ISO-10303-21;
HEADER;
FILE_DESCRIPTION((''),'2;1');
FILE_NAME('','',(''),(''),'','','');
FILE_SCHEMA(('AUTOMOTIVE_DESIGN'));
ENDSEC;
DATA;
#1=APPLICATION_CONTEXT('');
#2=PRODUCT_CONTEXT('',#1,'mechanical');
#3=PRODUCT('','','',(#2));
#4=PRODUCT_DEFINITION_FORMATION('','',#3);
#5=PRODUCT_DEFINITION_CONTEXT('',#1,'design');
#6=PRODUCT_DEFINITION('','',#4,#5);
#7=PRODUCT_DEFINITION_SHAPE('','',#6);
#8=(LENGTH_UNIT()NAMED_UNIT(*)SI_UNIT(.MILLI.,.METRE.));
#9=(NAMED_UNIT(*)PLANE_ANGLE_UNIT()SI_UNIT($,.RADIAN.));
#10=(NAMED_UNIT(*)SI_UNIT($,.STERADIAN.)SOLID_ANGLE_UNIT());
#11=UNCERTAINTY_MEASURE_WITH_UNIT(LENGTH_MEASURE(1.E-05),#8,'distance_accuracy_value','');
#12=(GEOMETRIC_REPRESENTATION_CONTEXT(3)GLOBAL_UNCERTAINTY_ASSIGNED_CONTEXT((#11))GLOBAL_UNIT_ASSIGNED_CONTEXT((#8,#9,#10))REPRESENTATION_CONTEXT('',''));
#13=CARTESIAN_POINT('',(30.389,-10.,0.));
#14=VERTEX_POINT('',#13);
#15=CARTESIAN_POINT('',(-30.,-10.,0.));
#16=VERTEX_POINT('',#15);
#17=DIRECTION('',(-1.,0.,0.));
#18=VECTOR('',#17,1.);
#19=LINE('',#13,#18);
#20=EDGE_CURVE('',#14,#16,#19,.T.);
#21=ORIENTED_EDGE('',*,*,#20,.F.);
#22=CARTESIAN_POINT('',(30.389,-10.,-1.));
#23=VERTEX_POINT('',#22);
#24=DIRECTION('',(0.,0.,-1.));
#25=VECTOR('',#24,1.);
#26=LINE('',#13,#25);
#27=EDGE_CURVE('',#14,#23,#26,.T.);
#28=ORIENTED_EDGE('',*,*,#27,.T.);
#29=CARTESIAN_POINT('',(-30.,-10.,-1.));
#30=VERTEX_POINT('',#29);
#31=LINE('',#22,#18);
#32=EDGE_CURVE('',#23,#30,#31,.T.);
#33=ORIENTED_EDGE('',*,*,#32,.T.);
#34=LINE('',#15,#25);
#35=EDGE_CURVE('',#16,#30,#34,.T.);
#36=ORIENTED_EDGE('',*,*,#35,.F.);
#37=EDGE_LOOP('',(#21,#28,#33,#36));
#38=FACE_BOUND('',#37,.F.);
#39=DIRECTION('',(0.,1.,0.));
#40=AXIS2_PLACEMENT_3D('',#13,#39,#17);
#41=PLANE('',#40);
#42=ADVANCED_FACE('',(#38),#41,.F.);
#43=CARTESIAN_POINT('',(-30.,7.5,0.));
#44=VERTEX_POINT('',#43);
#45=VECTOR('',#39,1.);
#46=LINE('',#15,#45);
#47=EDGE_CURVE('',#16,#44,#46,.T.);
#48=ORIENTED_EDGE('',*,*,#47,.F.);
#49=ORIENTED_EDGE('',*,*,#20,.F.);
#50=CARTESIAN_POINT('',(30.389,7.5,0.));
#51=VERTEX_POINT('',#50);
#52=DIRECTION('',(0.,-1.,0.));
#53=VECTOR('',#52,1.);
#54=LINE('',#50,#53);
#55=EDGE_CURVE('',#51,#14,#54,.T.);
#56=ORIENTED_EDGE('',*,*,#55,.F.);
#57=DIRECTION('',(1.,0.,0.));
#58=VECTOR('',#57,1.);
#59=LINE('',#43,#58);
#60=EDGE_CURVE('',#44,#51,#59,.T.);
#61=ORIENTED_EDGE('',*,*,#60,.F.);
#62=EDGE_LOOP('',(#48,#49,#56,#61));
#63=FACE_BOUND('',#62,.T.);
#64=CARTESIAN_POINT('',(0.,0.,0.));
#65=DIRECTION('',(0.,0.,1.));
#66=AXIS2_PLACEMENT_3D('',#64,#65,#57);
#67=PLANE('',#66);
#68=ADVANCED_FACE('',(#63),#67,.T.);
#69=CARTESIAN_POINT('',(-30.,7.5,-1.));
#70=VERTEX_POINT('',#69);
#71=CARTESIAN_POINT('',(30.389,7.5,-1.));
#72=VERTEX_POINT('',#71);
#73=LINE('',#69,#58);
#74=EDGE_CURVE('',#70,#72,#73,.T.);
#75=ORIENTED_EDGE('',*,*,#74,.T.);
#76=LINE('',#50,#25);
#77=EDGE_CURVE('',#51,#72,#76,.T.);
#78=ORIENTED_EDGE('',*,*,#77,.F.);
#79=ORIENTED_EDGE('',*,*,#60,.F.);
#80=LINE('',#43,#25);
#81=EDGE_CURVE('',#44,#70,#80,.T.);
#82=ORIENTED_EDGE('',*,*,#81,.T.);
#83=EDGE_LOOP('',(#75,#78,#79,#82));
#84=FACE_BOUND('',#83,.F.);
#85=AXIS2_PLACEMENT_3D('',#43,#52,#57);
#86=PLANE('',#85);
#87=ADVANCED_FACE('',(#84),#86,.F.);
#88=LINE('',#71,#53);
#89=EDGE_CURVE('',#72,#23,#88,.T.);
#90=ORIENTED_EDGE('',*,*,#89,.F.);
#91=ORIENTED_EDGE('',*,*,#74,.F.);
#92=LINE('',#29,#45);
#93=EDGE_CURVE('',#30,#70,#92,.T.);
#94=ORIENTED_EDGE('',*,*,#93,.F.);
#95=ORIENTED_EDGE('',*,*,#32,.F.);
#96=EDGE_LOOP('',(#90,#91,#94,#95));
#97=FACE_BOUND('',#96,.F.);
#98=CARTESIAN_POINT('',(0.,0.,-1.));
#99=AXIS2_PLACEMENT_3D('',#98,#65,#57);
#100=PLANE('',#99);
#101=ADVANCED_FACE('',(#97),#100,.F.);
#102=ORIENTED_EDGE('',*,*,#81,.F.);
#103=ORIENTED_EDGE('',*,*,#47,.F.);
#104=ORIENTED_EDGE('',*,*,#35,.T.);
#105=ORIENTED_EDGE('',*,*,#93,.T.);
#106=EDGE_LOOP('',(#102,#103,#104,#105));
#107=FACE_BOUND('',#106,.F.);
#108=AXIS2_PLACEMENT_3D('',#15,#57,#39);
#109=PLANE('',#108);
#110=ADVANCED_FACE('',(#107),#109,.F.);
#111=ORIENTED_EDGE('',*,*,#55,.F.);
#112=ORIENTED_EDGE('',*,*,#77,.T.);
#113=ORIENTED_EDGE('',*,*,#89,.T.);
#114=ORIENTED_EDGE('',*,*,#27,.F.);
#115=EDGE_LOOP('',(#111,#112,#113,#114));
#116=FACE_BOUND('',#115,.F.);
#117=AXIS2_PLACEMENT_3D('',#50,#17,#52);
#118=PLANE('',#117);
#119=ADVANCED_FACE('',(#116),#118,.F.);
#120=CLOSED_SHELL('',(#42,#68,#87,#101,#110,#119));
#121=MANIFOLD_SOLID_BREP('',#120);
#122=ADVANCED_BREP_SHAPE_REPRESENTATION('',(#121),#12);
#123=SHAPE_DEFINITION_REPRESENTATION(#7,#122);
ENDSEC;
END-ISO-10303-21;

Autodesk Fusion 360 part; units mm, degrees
sketch "board" plane through (0, 0, 0) normal (0, 0, 1) x (1, 0, 0)
  circle A0 centre (-29.2, -21.5) radius 0.5
  line L0 (-35, 25) -> (35, 25)
  line L1 (35, 25) -> (35, -25)
  line L2 (35, -25) -> (-35, -25)
  line L3 (-35, -25) -> (-35, 25)
  circle A1 centre (-26.66, -21.5) radius 0.5
  circle A2 centre (-24.12, -21.5) radius 0.5
  circle A3 centre (-21.58, -21.5) radius 0.5
  circle A4 centre (-19.04, -21.5) radius 0.5
  circle A5 centre (-16.5, -21.5) radius 0.5
  circle A6 centre (-13.96, -21.5) radius 0.5
  circle A7 centre (-11.42, -21.5) radius 0.5
  circle A8 centre (-8.88, -21.5) radius 0.5
  circle A9 centre (-6.34, -21.5) radius 0.5
  circle A10 centre (-3.8, -21.5) radius 0.5
  circle A11 centre (-1.26, -21.5) radius 0.5
  circle A12 centre (1.28, -21.5) radius 0.5
  circle A13 centre (3.82, -21.5) radius 0.5
  circle A14 centre (6.36, -21.5) radius 0.5
  circle A15 centre (8.9, -21.5) radius 0.5
  circle A16 centre (11.44, -21.5) radius 0.5
  circle A17 centre (13.98, -21.5) radius 0.5
  circle A18 centre (16.52, -21.5) radius 0.5
  circle A19 centre (19.06, -21.5) radius 0.5
  circle A20 centre (21.6, -21.5) radius 0.5
  circle A21 centre (24.14, -21.5) radius 0.5
  circle A22 centre (26.68, -21.5) radius 0.5
  circle A23 centre (29.22, -21.5) radius 0.5
  circle A24 centre (-29.2, -18.96) radius 0.5
  circle A25 centre (-26.66, -18.96) radius 0.5
  circle A26 centre (-24.12, -18.96) radius 0.5
  circle A27 centre (-21.58, -18.96) radius 0.5
  circle A28 centre (-19.04, -18.96) radius 0.5
  circle A29 centre (-16.5, -18.96) radius 0.5
  circle A30 centre (-13.96, -18.96) radius 0.5
  circle A31 centre (-11.42, -18.96) radius 0.5
  circle A32 centre (-8.88, -18.96) radius 0.5
  circle A33 centre (-6.34, -18.96) radius 0.5
  circle A34 centre (-3.8, -18.96) radius 0.5
  circle A35 centre (-1.26, -18.96) radius 0.5
  circle A36 centre (1.28, -18.96) radius 0.5
  circle A37 centre (3.82, -18.96) radius 0.5
  circle A38 centre (6.36, -18.96) radius 0.5
  circle A39 centre (8.9, -18.96) radius 0.5
  circle A40 centre (11.44, -18.96) radius 0.5
  circle A41 centre (13.98, -18.96) radius 0.5
  circle A42 centre (16.52, -18.96) radius 0.5
  circle A43 centre (19.06, -18.96) radius 0.5
  circle A44 centre (21.6, -18.96) radius 0.5
  circle A45 centre (24.14, -18.96) radius 0.5
  circle A46 centre (26.68, -18.96) radius 0.5
  circle A47 centre (29.22, -18.96) radius 0.5
  circle A48 centre (-29.2, -16.42) radius 0.5
  circle A49 centre (-26.66, -16.42) radius 0.5
  circle A50 centre (-24.12, -16.42) radius 0.5
  circle A51 centre (-21.58, -16.42) radius 0.5
  circle A52 centre (-19.04, -16.42) radius 0.5
  circle A53 centre (-16.5, -16.42) radius 0.5
  circle A54 centre (-13.96, -16.42) radius 0.5
  circle A55 centre (-11.42, -16.42) radius 0.5
  circle A56 centre (-8.88, -16.42) radius 0.5
  circle A57 centre (-6.34, -16.42) radius 0.5
  circle A58 centre (-3.8, -16.42) radius 0.5
  circle A59 centre (-1.26, -16.42) radius 0.5
  circle A60 centre (1.28, -16.42) radius 0.5
  circle A61 centre (3.82, -16.42) radius 0.5
  circle A62 centre (6.36, -16.42) radius 0.5
  circle A63 centre (8.9, -16.42) radius 0.5
  circle A64 centre (11.44, -16.42) radius 0.5
  circle A65 centre (13.98, -16.42) radius 0.5
  circle A66 centre (16.52, -16.42) radius 0.5
  circle A67 centre (19.06, -16.42) radius 0.5
  circle A68 centre (21.6, -16.42) radius 0.5
  circle A69 centre (24.14, -16.42) radius 0.5
  circle A70 centre (26.68, -16.42) radius 0.5
  circle A71 centre (29.22, -16.42) radius 0.5
  circle A72 centre (-29.2, -13.88) radius 0.5
  circle A73 centre (-26.66, -13.88) radius 0.5
  circle A74 centre (-24.12, -13.88) radius 0.5
  circle A75 centre (-21.58, -13.88) radius 0.5
  circle A76 centre (-19.04, -13.88) radius 0.5
  circle A77 centre (-16.5, -13.88) radius 0.5
  circle A78 centre (-13.96, -13.88) radius 0.5
  circle A79 centre (-11.42, -13.88) radius 0.5
  circle A80 centre (-8.88, -13.88) radius 0.5
  circle A81 centre (-6.34, -13.88) radius 0.5
  circle A82 centre (-3.8, -13.88) radius 0.5
  circle A83 centre (-1.26, -13.88) radius 0.5
  circle A84 centre (1.28, -13.88) radius 0.5
  circle A85 centre (3.82, -13.88) radius 0.5
  circle A86 centre (6.36, -13.88) radius 0.5
  circle A87 centre (8.9, -13.88) radius 0.5
  circle A88 centre (11.44, -13.88) radius 0.5
  circle A89 centre (13.98, -13.88) radius 0.5
  circle A90 centre (16.52, -13.88) radius 0.5
  circle A91 centre (19.06, -13.88) radius 0.5
  circle A92 centre (21.6, -13.88) radius 0.5
  circle A93 centre (24.14, -13.88) radius 0.5
  circle A94 centre (26.68, -13.88) radius 0.5
  circle A95 centre (29.22, -13.88) radius 0.5
  circle A96 centre (-29.2, -11.34) radius 0.5
  circle A97 centre (-26.66, -11.34) radius 0.5
  circle A98 centre (-24.12, -11.34) radius 0.5
  circle A99 centre (-21.58, -11.34) radius 0.5
  circle A100 centre (-19.04, -11.34) radius 0.5
  circle A101 centre (-16.5, -11.34) radius 0.5
  circle A102 centre (-13.96, -11.34) radius 0.5
  circle A103 centre (-11.42, -11.34) radius 0.5
  circle A104 centre (-8.88, -11.34) radius 0.5
  circle A105 centre (-6.34, -11.34) radius 0.5
  circle A106 centre (-3.8, -11.34) radius 0.5
  circle A107 centre (-1.26, -11.34) radius 0.5
  circle A108 centre (1.28, -11.34) radius 0.5
  circle A109 centre (3.82, -11.34) radius 0.5
  circle A110 centre (6.36, -11.34) radius 0.5
  circle A111 centre (8.9, -11.34) radius 0.5
  circle A112 centre (11.44, -11.34) radius 0.5
  circle A113 centre (13.98, -11.34) radius 0.5
  circle A114 centre (16.52, -11.34) radius 0.5
  circle A115 centre (19.06, -11.34) radius 0.5
  circle A116 centre (21.6, -11.34) radius 0.5
  circle A117 centre (24.14, -11.34) radius 0.5
  circle A118 centre (26.68, -11.34) radius 0.5
  circle A119 centre (29.22, -11.34) radius 0.5
  circle A120 centre (-29.2, -8.8) radius 0.5
  circle A121 centre (-26.66, -8.8) radius 0.5
  circle A122 centre (-24.12, -8.8) radius 0.5
  circle A123 centre (-21.58, -8.8) radius 0.5
  circle A124 centre (-19.04, -8.8) radius 0.5
  circle A125 centre (-16.5, -8.8) radius 0.5
  circle A126 centre (-13.96, -8.8) radius 0.5
  circle A127 centre (-11.42, -8.8) radius 0.5
  circle A128 centre (-8.88, -8.8) radius 0.5
  circle A129 centre (-6.34, -8.8) radius 0.5
  circle A130 centre (-3.8, -8.8) radius 0.5
  circle A131 centre (-1.26, -8.8) radius 0.5
  circle A132 centre (1.28, -8.8) radius 0.5
  circle A133 centre (3.82, -8.8) radius 0.5
  circle A134 centre (6.36, -8.8) radius 0.5
  circle A135 centre (8.9, -8.8) radius 0.5
  circle A136 centre (11.44, -8.8) radius 0.5
  circle A137 centre (13.98, -8.8) radius 0.5
  circle A138 centre (16.52, -8.8) radius 0.5
  circle A139 centre (19.06, -8.8) radius 0.5
  circle A140 centre (21.6, -8.8) radius 0.5
  circle A141 centre (24.14, -8.8) radius 0.5
  circle A142 centre (26.68, -8.8) radius 0.5
  circle A143 centre (29.22, -8.8) radius 0.5
  circle A144 centre (-29.2, -6.26) radius 0.5
  circle A145 centre (-26.66, -6.26) radius 0.5
  circle A146 centre (-24.12, -6.26) radius 0.5
  circle A147 centre (-21.58, -6.26) radius 0.5
  circle A148 centre (-19.04, -6.26) radius 0.5
  circle A149 centre (-16.5, -6.26) radius 0.5
  circle A150 centre (-13.96, -6.26) radius 0.5
  circle A151 centre (-11.42, -6.26) radius 0.5
  circle A152 centre (-8.88, -6.26) radius 0.5
  circle A153 centre (-6.34, -6.26) radius 0.5
  circle A154 centre (-3.8, -6.26) radius 0.5
  circle A155 centre (-1.26, -6.26) radius 0.5
  circle A156 centre (1.28, -6.26) radius 0.5
  circle A157 centre (3.82, -6.26) radius 0.5
  circle A158 centre (6.36, -6.26) radius 0.5
  circle A159 centre (8.9, -6.26) radius 0.5
  circle A160 centre (11.44, -6.26) radius 0.5
  circle A161 centre (13.98, -6.26) radius 0.5
  circle A162 centre (16.52, -6.26) radius 0.5
  circle A163 centre (19.06, -6.26) radius 0.5
  circle A164 centre (21.6, -6.26) radius 0.5
  circle A165 centre (24.14, -6.26) radius 0.5
  circle A166 centre (26.68, -6.26) radius 0.5
  circle A167 centre (29.22, -6.26) radius 0.5
  circle A168 centre (-29.2, -3.72) radius 0.5
  circle A169 centre (-26.66, -3.72) radius 0.5
  circle A170 centre (-24.12, -3.72) radius 0.5
  circle A171 centre (-21.58, -3.72) radius 0.5
  circle A172 centre (-19.04, -3.72) radius 0.5
  circle A173 centre (-16.5, -3.72) radius 0.5
  circle A174 centre (-13.96, -3.72) radius 0.5
  circle A175 centre (-11.42, -3.72) radius 0.5
  circle A176 centre (-8.88, -3.72) radius 0.5
  circle A177 centre (-6.34, -3.72) radius 0.5
  circle A178 centre (-3.8, -3.72) radius 0.5
  circle A179 centre (-1.26, -3.72) radius 0.5
  circle A180 centre (1.28, -3.72) radius 0.5
  circle A181 centre (3.82, -3.72) radius 0.5
  circle A182 centre (6.36, -3.72) radius 0.5
  circle A183 centre (8.9, -3.72) radius 0.5
  circle A184 centre (11.44, -3.72) radius 0.5
  circle A185 centre (13.98, -3.72) radius 0.5
  circle A186 centre (16.52, -3.72) radius 0.5
  circle A187 centre (19.06, -3.72) radius 0.5
  circle A188 centre (21.6, -3.72) radius 0.5
  circle A189 centre (24.14, -3.72) radius 0.5
  circle A190 centre (26.68, -3.72) radius 0.5
  circle A191 centre (29.22, -3.72) radius 0.5
  circle A192 centre (-29.2, -1.18) radius 0.5
  circle A193 centre (-26.66, -1.18) radius 0.5
  circle A194 centre (-24.12, -1.18) radius 0.5
  circle A195 centre (-21.58, -1.18) radius 0.5
  circle A196 centre (-19.04, -1.18) radius 0.5
  circle A197 centre (-16.5, -1.18) radius 0.5
  circle A198 centre (-13.96, -1.18) radius 0.5
  circle A199 centre (-11.42, -1.18) radius 0.5
  circle A200 centre (-8.88, -1.18) radius 0.5
  circle A201 centre (-6.34, -1.18) radius 0.5
  circle A202 centre (-3.8, -1.18) radius 0.5
  circle A203 centre (-1.26, -1.18) radius 0.5
  circle A204 centre (1.28, -1.18) radius 0.5
  circle A205 centre (3.82, -1.18) radius 0.5
  circle A206 centre (6.36, -1.18) radius 0.5
  circle A207 centre (8.9, -1.18) radius 0.5
  circle A208 centre (11.44, -1.18) radius 0.5
  circle A209 centre (13.98, -1.18) radius 0.5
  circle A210 centre (16.52, -1.18) radius 0.5
  circle A211 centre (19.06, -1.18) radius 0.5
  circle A212 centre (21.6, -1.18) radius 0.5
  circle A213 centre (24.14, -1.18) radius 0.5
  circle A214 centre (26.68, -1.18) radius 0.5
  circle A215 centre (29.22, -1.18) radius 0.5
  circle A216 centre (-29.2, 1.36) radius 0.5
  circle A217 centre (-26.66, 1.36) radius 0.5
  circle A218 centre (-24.12, 1.36) radius 0.5
  circle A219 centre (-21.58, 1.36) radius 0.5
  circle A220 centre (-19.04, 1.36) radius 0.5
  circle A221 centre (-16.5, 1.36) radius 0.5
  circle A222 centre (-13.96, 1.36) radius 0.5
  circle A223 centre (-11.42, 1.36) radius 0.5
  circle A224 centre (-8.88, 1.36) radius 0.5
  circle A225 centre (-6.34, 1.36) radius 0.5
  circle A226 centre (-3.8, 1.36) radius 0.5
  circle A227 centre (-1.26, 1.36) radius 0.5
  circle A228 centre (1.28, 1.36) radius 0.5
  circle A229 centre (3.82, 1.36) radius 0.5
  circle A230 centre (6.36, 1.36) radius 0.5
  circle A231 centre (8.9, 1.36) radius 0.5
  circle A232 centre (11.44, 1.36) radius 0.5
  circle A233 centre (13.98, 1.36) radius 0.5
  circle A234 centre (16.52, 1.36) radius 0.5
  circle A235 centre (19.06, 1.36) radius 0.5
  circle A236 centre (21.6, 1.36) radius 0.5
  circle A237 centre (24.14, 1.36) radius 0.5
  circle A238 centre (26.68, 1.36) radius 0.5
  circle A239 centre (29.22, 1.36) radius 0.5
  circle A240 centre (-29.2, 3.9) radius 0.5
  circle A241 centre (-26.66, 3.9) radius 0.5
  circle A242 centre (-24.12, 3.9) radius 0.5
  circle A243 centre (-21.58, 3.9) radius 0.5
  circle A244 centre (-19.04, 3.9) radius 0.5
  circle A245 centre (-16.5, 3.9) radius 0.5
  circle A246 centre (-13.96, 3.9) radius 0.5
  circle A247 centre (-11.42, 3.9) radius 0.5
  circle A248 centre (-8.88, 3.9) radius 0.5
  circle A249 centre (-6.34, 3.9) radius 0.5
  circle A250 centre (-3.8, 3.9) radius 0.5
  circle A251 centre (-1.26, 3.9) radius 0.5
  circle A252 centre (1.28, 3.9) radius 0.5
  circle A253 centre (3.82, 3.9) radius 0.5
  circle A254 centre (6.36, 3.9) radius 0.5
  circle A255 centre (8.9, 3.9) radius 0.5
  circle A256 centre (11.44, 3.9) radius 0.5
  circle A257 centre (13.98, 3.9) radius 0.5
  circle A258 centre (16.52, 3.9) radius 0.5
  circle A259 centre (19.06, 3.9) radius 0.5
  circle A260 centre (21.6, 3.9) radius 0.5
  circle A261 centre (24.14, 3.9) radius 0.5
  circle A262 centre (26.68, 3.9) radius 0.5
  circle A263 centre (29.22, 3.9) radius 0.5
  circle A264 centre (-29.2, 6.44) radius 0.5
  circle A265 centre (-26.66, 6.44) radius 0.5
  circle A266 centre (-24.12, 6.44) radius 0.5
  circle A267 centre (-21.58, 6.44) radius 0.5
  circle A268 centre (-19.04, 6.44) radius 0.5
  circle A269 centre (-16.5, 6.44) radius 0.5
  circle A270 centre (-13.96, 6.44) radius 0.5
  circle A271 centre (-11.42, 6.44) radius 0.5
  circle A272 centre (-8.88, 6.44) radius 0.5
  circle A273 centre (-6.34, 6.44) radius 0.5
  circle A274 centre (-3.8, 6.44) radius 0.5
  circle A275 centre (-1.26, 6.44) radius 0.5
  circle A276 centre (1.28, 6.44) radius 0.5
  circle A277 centre (3.82, 6.44) radius 0.5
  circle A278 centre (6.36, 6.44) radius 0.5
  circle A279 centre (8.9, 6.44) radius 0.5
  circle A280 centre (11.44, 6.44) radius 0.5
  circle A281 centre (13.98, 6.44) radius 0.5
  circle A282 centre (16.52, 6.44) radius 0.5
  circle A283 centre (19.06, 6.44) radius 0.5
  circle A284 centre (21.6, 6.44) radius 0.5
  circle A285 centre (24.14, 6.44) radius 0.5
  circle A286 centre (26.68, 6.44) radius 0.5
  circle A287 centre (29.22, 6.44) radius 0.5
  circle A288 centre (-29.2, 8.98) radius 0.5
  circle A289 centre (-26.66, 8.98) radius 0.5
  circle A290 centre (-24.12, 8.98) radius 0.5
  circle A291 centre (-21.58, 8.98) radius 0.5
  circle A292 centre (-19.04, 8.98) radius 0.5
  circle A293 centre (-16.5, 8.98) radius 0.5
  circle A294 centre (-13.96, 8.98) radius 0.5
  circle A295 centre (-11.42, 8.98) radius 0.5
  circle A296 centre (-8.88, 8.98) radius 0.5
  circle A297 centre (-6.34, 8.98) radius 0.5
  circle A298 centre (-3.8, 8.98) radius 0.5
  circle A299 centre (-1.26, 8.98) radius 0.5
  circle A300 centre (1.28, 8.98) radius 0.5
  circle A301 centre (3.82, 8.98) radius 0.5
  circle A302 centre (6.36, 8.98) radius 0.5
  circle A303 centre (8.9, 8.98) radius 0.5
  circle A304 centre (11.44, 8.98) radius 0.5
  circle A305 centre (13.98, 8.98) radius 0.5
  circle A306 centre (16.52, 8.98) radius 0.5
  circle A307 centre (19.06, 8.98) radius 0.5
  circle A308 centre (21.6, 8.98) radius 0.5
  circle A309 centre (24.14, 8.98) radius 0.5
  circle A310 centre (26.68, 8.98) radius 0.5
  circle A311 centre (29.22, 8.98) radius 0.5
  circle A312 centre (-29.2, 11.52) radius 0.5
  circle A313 centre (-26.66, 11.52) radius 0.5
  circle A314 centre (-24.12, 11.52) radius 0.5
  circle A315 centre (-21.58, 11.52) radius 0.5
  circle A316 centre (-19.04, 11.52) radius 0.5
  circle A317 centre (-16.5, 11.52) radius 0.5
  circle A318 centre (-13.96, 11.52) radius 0.5
  circle A319 centre (-11.42, 11.52) radius 0.5
  circle A320 centre (-8.88, 11.52) radius 0.5
  circle A321 centre (-6.34, 11.52) radius 0.5
  circle A322 centre (-3.8, 11.52) radius 0.5
  circle A323 centre (-1.26, 11.52) radius 0.5
  circle A324 centre (1.28, 11.52) radius 0.5
  circle A325 centre (3.82, 11.52) radius 0.5
  circle A326 centre (6.36, 11.52) radius 0.5
  circle A327 centre (8.9, 11.52) radius 0.5
  circle A328 centre (11.44, 11.52) radius 0.5
  circle A329 centre (13.98, 11.52) radius 0.5
  circle A330 centre (16.52, 11.52) radius 0.5
  circle A331 centre (19.06, 11.52) radius 0.5
  circle A332 centre (21.6, 11.52) radius 0.5
  circle A333 centre (24.14, 11.52) radius 0.5
  circle A334 centre (26.68, 11.52) radius 0.5
  circle A335 centre (29.22, 11.52) radius 0.5
  circle A336 centre (-29.2, 14.06) radius 0.5
  circle A337 centre (-26.66, 14.06) radius 0.5
  circle A338 centre (-24.12, 14.06) radius 0.5
  circle A339 centre (-21.58, 14.06) radius 0.5
  circle A340 centre (-19.04, 14.06) radius 0.5
  circle A341 centre (-16.5, 14.06) radius 0.5
  circle A342 centre (-13.96, 14.06) radius 0.5
  circle A343 centre (-11.42, 14.06) radius 0.5
  circle A344 centre (-8.88, 14.06) radius 0.5
  circle A345 centre (-6.34, 14.06) radius 0.5
  circle A346 centre (-3.8, 14.06) radius 0.5
  circle A347 centre (-1.26, 14.06) radius 0.5
  circle A348 centre (1.28, 14.06) radius 0.5
  circle A349 centre (3.82, 14.06) radius 0.5
  circle A350 centre (6.36, 14.06) radius 0.5
  circle A351 centre (8.9, 14.06) radius 0.5
  circle A352 centre (11.44, 14.06) radius 0.5
  circle A353 centre (13.98, 14.06) radius 0.5
  circle A354 centre (16.52, 14.06) radius 0.5
  circle A355 centre (19.06, 14.06) radius 0.5
  circle A356 centre (21.6, 14.06) radius 0.5
  circle A357 centre (24.14, 14.06) radius 0.5
  circle A358 centre (26.68, 14.06) radius 0.5
  circle A359 centre (29.22, 14.06) radius 0.5
  circle A360 centre (-29.2, 16.6) radius 0.5
  circle A361 centre (-26.66, 16.6) radius 0.5
  circle A362 centre (-24.12, 16.6) radius 0.5
  circle A363 centre (-21.58, 16.6) radius 0.5
  circle A364 centre (-19.04, 16.6) radius 0.5
  circle A365 centre (-16.5, 16.6) radius 0.5
  circle A366 centre (-13.96, 16.6) radius 0.5
  circle A367 centre (-11.42, 16.6) radius 0.5
  circle A368 centre (-8.88, 16.6) radius 0.5
  circle A369 centre (-6.34, 16.6) radius 0.5
  circle A370 centre (-3.8, 16.6) radius 0.5
  circle A371 centre (-1.26, 16.6) radius 0.5
  circle A372 centre (1.28, 16.6) radius 0.5
  circle A373 centre (3.82, 16.6) radius 0.5
  circle A374 centre (6.36, 16.6) radius 0.5
  circle A375 centre (8.9, 16.6) radius 0.5
  circle A376 centre (11.44, 16.6) radius 0.5
  circle A377 centre (13.98, 16.6) radius 0.5
  circle A378 centre (16.52, 16.6) radius 0.5
  circle A379 centre (19.06, 16.6) radius 0.5
  circle A380 centre (21.6, 16.6) radius 0.5
  circle A381 centre (24.14, 16.6) radius 0.5
  circle A382 centre (26.68, 16.6) radius 0.5
  circle A383 centre (29.22, 16.6) radius 0.5
  circle A384 centre (-29.2, 19.14) radius 0.5
  circle A385 centre (-26.66, 19.14) radius 0.5
  circle A386 centre (-24.12, 19.14) radius 0.5
  circle A387 centre (-21.58, 19.14) radius 0.5
  circle A388 centre (-19.04, 19.14) radius 0.5
  circle A389 centre (-16.5, 19.14) radius 0.5
  circle A390 centre (-13.96, 19.14) radius 0.5
  circle A391 centre (-11.42, 19.14) radius 0.5
  circle A392 centre (-8.88, 19.14) radius 0.5
  circle A393 centre (-6.34, 19.14) radius 0.5
  circle A394 centre (-3.8, 19.14) radius 0.5
  circle A395 centre (-1.26, 19.14) radius 0.5
  circle A396 centre (1.28, 19.14) radius 0.5
  circle A397 centre (3.82, 19.14) radius 0.5
  circle A398 centre (6.36, 19.14) radius 0.5
  circle A399 centre (8.9, 19.14) radius 0.5
  circle A400 centre (11.44, 19.14) radius 0.5
  circle A401 centre (13.98, 19.14) radius 0.5
  circle A402 centre (16.52, 19.14) radius 0.5
  circle A403 centre (19.06, 19.14) radius 0.5
  circle A404 centre (21.6, 19.14) radius 0.5
  circle A405 centre (24.14, 19.14) radius 0.5
  circle A406 centre (26.68, 19.14) radius 0.5
  circle A407 centre (29.22, 19.14) radius 0.5
  circle A408 centre (-29.2, 21.68) radius 0.5
  circle A409 centre (-26.66, 21.68) radius 0.5
  circle A410 centre (-24.12, 21.68) radius 0.5
  circle A411 centre (-21.58, 21.68) radius 0.5
  circle A412 centre (-19.04, 21.68) radius 0.5
  circle A413 centre (-16.5, 21.68) radius 0.5
  circle A414 centre (-13.96, 21.68) radius 0.5
  circle A415 centre (-11.42, 21.68) radius 0.5
  circle A416 centre (-8.88, 21.68) radius 0.5
  circle A417 centre (-6.34, 21.68) radius 0.5
  circle A418 centre (-3.8, 21.68) radius 0.5
  circle A419 centre (-1.26, 21.68) radius 0.5
  circle A420 centre (1.28, 21.68) radius 0.5
  circle A421 centre (3.82, 21.68) radius 0.5
  circle A422 centre (6.36, 21.68) radius 0.5
  circle A423 centre (8.9, 21.68) radius 0.5
  circle A424 centre (11.44, 21.68) radius 0.5
  circle A425 centre (13.98, 21.68) radius 0.5
  circle A426 centre (16.52, 21.68) radius 0.5
  circle A427 centre (19.06, 21.68) radius 0.5
  circle A428 centre (21.6, 21.68) radius 0.5
  circle A429 centre (24.14, 21.68) radius 0.5
  circle A430 centre (26.68, 21.68) radius 0.5
  circle A431 centre (29.22, 21.68) radius 0.5
  line L4 (-33.3, 18.5) -> (-33.3, 19.8)
  line L5 (-33.3, 19.8) -> (-32.2, 19.8)
  line L6 (-33.3, 18.5) -> (-32.2, 18.5)
  arc A432 (-32.2, 18.5) -> (-32.2, 19.8) centre (-32.2, 19.15) ccw
  arc A433 (-32.2, 15.96) -> (-32.2, 17.26) centre (-32.2, 16.61) ccw
  line L7 (-33.3, 15.96) -> (-32.2, 15.96)
  line L8 (-33.3, 15.96) -> (-33.3, 17.26)
  line L9 (-33.3, 17.26) -> (-32.2, 17.26)
  arc A434 (-32.2, 13.42) -> (-32.2, 14.72) centre (-32.2, 14.07) ccw
  line L10 (-33.3, 13.42) -> (-32.2, 13.42)
  line L11 (-33.3, 13.42) -> (-33.3, 14.72)
  line L12 (-33.3, 14.72) -> (-32.2, 14.72)
  arc A435 (-32.2, 10.88) -> (-32.2, 12.18) centre (-32.2, 11.53) ccw
  line L13 (-33.3, 10.88) -> (-32.2, 10.88)
  line L14 (-33.3, 10.88) -> (-33.3, 12.18)
  line L15 (-33.3, 12.18) -> (-32.2, 12.18)
  arc A436 (-32.2, 8.34) -> (-32.2, 9.64) centre (-32.2, 8.99) ccw
  line L16 (-33.3, 8.34) -> (-32.2, 8.34)
  line L17 (-33.3, 8.34) -> (-33.3, 9.64)
  line L18 (-33.3, 9.64) -> (-32.2, 9.64)
  arc A437 (-32.2, 5.8) -> (-32.2, 7.1) centre (-32.2, 6.45) ccw
  line L19 (-33.3, 5.8) -> (-32.2, 5.8)
  line L20 (-33.3, 5.8) -> (-33.3, 7.1)
  line L21 (-33.3, 7.1) -> (-32.2, 7.1)
  arc A438 (-32.2, 3.26) -> (-32.2, 4.56) centre (-32.2, 3.91) ccw
  line L22 (-33.3, 3.26) -> (-32.2, 3.26)
  line L23 (-33.3, 3.26) -> (-33.3, 4.56)
  line L24 (-33.3, 4.56) -> (-32.2, 4.56)
  arc A439 (-32.2, 0.72) -> (-32.2, 2.02) centre (-32.2, 1.37) ccw
  line L25 (-33.3, 0.72) -> (-32.2, 0.72)
  line L26 (-33.3, 0.72) -> (-33.3, 2.02)
  line L27 (-33.3, 2.02) -> (-32.2, 2.02)
  arc A440 (-32.2, -1.82) -> (-32.2, -0.52) centre (-32.2, -1.17) ccw
  line L28 (-33.3, -1.82) -> (-32.2, -1.82)
  line L29 (-33.3, -1.82) -> (-33.3, -0.52)
  line L30 (-33.3, -0.52) -> (-32.2, -0.52)
  arc A441 (-32.2, -4.36) -> (-32.2, -3.06) centre (-32.2, -3.71) ccw
  line L31 (-33.3, -4.36) -> (-32.2, -4.36)
  line L32 (-33.3, -4.36) -> (-33.3, -3.06)
  line L33 (-33.3, -3.06) -> (-32.2, -3.06)
  arc A442 (-32.2, -6.9) -> (-32.2, -5.6) centre (-32.2, -6.25) ccw
  line L34 (-33.3, -6.9) -> (-32.2, -6.9)
  line L35 (-33.3, -6.9) -> (-33.3, -5.6)
  line L36 (-33.3, -5.6) -> (-32.2, -5.6)
  arc A443 (-32.2, -9.44) -> (-32.2, -8.14) centre (-32.2, -8.79) ccw
  line L37 (-33.3, -9.44) -> (-32.2, -9.44)
  line L38 (-33.3, -9.44) -> (-33.3, -8.14)
  line L39 (-33.3, -8.14) -> (-32.2, -8.14)
  arc A444 (-32.2, -11.98) -> (-32.2, -10.68) centre (-32.2, -11.33) ccw
  line L40 (-33.3, -11.98) -> (-32.2, -11.98)
  line L41 (-33.3, -11.98) -> (-33.3, -10.68)
  line L42 (-33.3, -10.68) -> (-32.2, -10.68)
  arc A445 (-32.2, -14.52) -> (-32.2, -13.22) centre (-32.2, -13.87) ccw
  line L43 (-33.3, -14.52) -> (-32.2, -14.52)
  line L44 (-33.3, -14.52) -> (-33.3, -13.22)
  line L45 (-33.3, -13.22) -> (-32.2, -13.22)
  arc A446 (-32.2, -17.06) -> (-32.2, -15.76) centre (-32.2, -16.41) ccw
  line L46 (-33.3, -17.06) -> (-32.2, -17.06)
  line L47 (-33.3, -17.06) -> (-33.3, -15.76)
  line L48 (-33.3, -15.76) -> (-32.2, -15.76)
  arc A447 (-32.2, -19.6) -> (-32.2, -18.3) centre (-32.2, -18.95) ccw
  line L49 (-33.3, -19.6) -> (-32.2, -19.6)
  line L50 (-33.3, -19.6) -> (-33.3, -18.3)
  line L51 (-33.3, -18.3) -> (-32.2, -18.3)
  line L52 (33.3, -5.6) -> (32.2, -5.6)
  line L53 (33.3, 15.96) -> (32.2, 15.96)
  line L54 (33.3, 13.42) -> (32.2, 13.42)
  arc A448 (32.2, -13.22) -> (32.2, -14.52) centre (32.2, -13.87) ccw
  arc A449 (32.2, 19.8) -> (32.2, 18.5) centre (32.2, 19.15) ccw
  line L55 (33.3, -19.6) -> (33.3, -18.3)
  line L56 (33.3, 19.8) -> (32.2, 19.8)
  line L57 (33.3, 18.5) -> (32.2, 18.5)
  line L58 (33.3, 18.5) -> (33.3, 19.8)
  line L59 (33.3, 13.42) -> (33.3, 14.72)
  line L60 (33.3, -11.98) -> (33.3, -10.68)
  line L61 (33.3, -17.06) -> (32.2, -17.06)
  arc A450 (32.2, -10.68) -> (32.2, -11.98) centre (32.2, -11.33) ccw
  line L62 (33.3, 0.72) -> (33.3, 2.02)
  line L63 (33.3, 8.34) -> (33.3, 9.64)
  arc A451 (32.2, -8.14) -> (32.2, -9.44) centre (32.2, -8.79) ccw
  line L64 (33.3, -9.44) -> (33.3, -8.14)
  line L65 (33.3, -8.14) -> (32.2, -8.14)
  line L66 (33.3, 10.88) -> (32.2, 10.88)
  line L67 (33.3, -1.82) -> (32.2, -1.82)
  arc A452 (32.2, 2.02) -> (32.2, 0.72) centre (32.2, 1.37) ccw
  line L68 (33.3, -6.9) -> (32.2, -6.9)
  line L69 (33.3, -4.36) -> (32.2, -4.36)
  line L70 (33.3, 3.26) -> (33.3, 4.56)
  arc A453 (32.2, -5.6) -> (32.2, -6.9) centre (32.2, -6.25) ccw
  line L71 (33.3, 5.8) -> (33.3, 7.1)
  line L72 (33.3, -4.36) -> (33.3, -3.06)
  line L73 (33.3, 9.64) -> (32.2, 9.64)
  line L74 (33.3, 0.72) -> (32.2, 0.72)
  line L75 (33.3, 3.26) -> (32.2, 3.26)
  arc A454 (32.2, 9.64) -> (32.2, 8.34) centre (32.2, 8.99) ccw
  line L76 (33.3, -1.82) -> (33.3, -0.52)
  arc A455 (32.2, -0.52) -> (32.2, -1.82) centre (32.2, -1.17) ccw
  arc A456 (32.2, 4.56) -> (32.2, 3.26) centre (32.2, 3.91) ccw
  line L77 (33.3, 5.8) -> (32.2, 5.8)
  line L78 (33.3, -3.06) -> (32.2, -3.06)
  line L79 (33.3, -9.44) -> (32.2, -9.44)
  line L80 (33.3, 7.1) -> (32.2, 7.1)
  line L81 (33.3, 2.02) -> (32.2, 2.02)
  line L82 (33.3, -6.9) -> (33.3, -5.6)
  line L83 (33.3, -10.68) -> (32.2, -10.68)
  arc A457 (32.2, -3.06) -> (32.2, -4.36) centre (32.2, -3.71) ccw
  line L84 (33.3, 8.34) -> (32.2, 8.34)
  arc A458 (32.2, 7.1) -> (32.2, 5.8) centre (32.2, 6.45) ccw
  line L85 (33.3, -0.52) -> (32.2, -0.52)
  line L86 (33.3, 4.56) -> (32.2, 4.56)
  arc A459 (32.2, -15.76) -> (32.2, -17.06) centre (32.2, -16.41) ccw
  line L87 (33.3, -17.06) -> (33.3, -15.76)
  line L88 (33.3, -11.98) -> (32.2, -11.98)
  line L89 (33.3, 15.96) -> (33.3, 17.26)
  line L90 (33.3, -14.52) -> (33.3, -13.22)
  line L91 (33.3, -19.6) -> (32.2, -19.6)
  line L92 (33.3, 10.88) -> (33.3, 12.18)
  line L93 (33.3, 17.26) -> (32.2, 17.26)
  arc A460 (32.2, 17.26) -> (32.2, 15.96) centre (32.2, 16.61) ccw
  line L94 (33.3, -14.52) -> (32.2, -14.52)
  line L95 (33.3, -15.76) -> (32.2, -15.76)
  arc A461 (32.2, -18.3) -> (32.2, -19.6) centre (32.2, -18.95) ccw
  line L96 (33.3, 12.18) -> (32.2, 12.18)
  line L97 (33.3, -13.22) -> (32.2, -13.22)
  line L98 (33.3, 14.72) -> (32.2, 14.72)
  arc A462 (32.2, 12.18) -> (32.2, 10.88) centre (32.2, 11.53) ccw
  arc A463 (32.2, 14.72) -> (32.2, 13.42) centre (32.2, 14.07) ccw
  line L99 (33.3, -18.3) -> (32.2, -18.3)
  dimension "d1" = 70
  dimension "d2" = 50
sketch "teensy" plane through (0, 0, 0) normal (0, 0, 1) x (1, 0, 0)
  line L0 (-30, 7.5) -> (30.389, 7.5)
  line L1 (30.389, 7.5) -> (30.389, -10)
  line L2 (30.389, -10) -> (-30, -10)
  line L3 (-30, -10) -> (-30, 7.5)
  dimension "d11" = 17.5
extrude "Extrude1" add sketch "teensy" against normal blind 1
sketch "connectors" plane through (0, 0, 0) normal (0, 0, 1) x (1, 0, 0)
  line L0 (-30.5809, -18.0287) -> (-23.3364, -18.0287)
  line L1 (-23.3364, -18.0287) -> (-23.3364, -19.8573)
  line L2 (-23.3364, -19.8573) -> (-30.5809, -19.8573)
  line L3 (-30.5809, -19.8573) -> (-30.5809, -18.0287)
  line L4 (7.8469, -15.668) -> (20.3638, -15.668)
  line L5 (20.3638, -15.668) -> (20.3638, -17.3421)
  line L6 (20.3638, -17.3421) -> (7.8469, -17.3421)
  line L7 (7.8469, -17.3421) -> (7.8469, -15.668)
  line L8 (20.3638, -15.668) -> (32.4641, -15.668)
  line L9 (32.4641, -15.668) -> (32.4641, -17.3421)
  line L10 (32.4641, -17.3421) -> (20.3638, -17.3421)
  line L11 (20.3638, -17.3421) -> (20.3638, -15.668)
  line L12 (-12.5361, 15) -> (7.3504, 15)
  line L13 (7.3504, 15) -> (7.3504, 13.1148)
  line L14 (7.3504, 13.1148) -> (-12.5361, 13.1148)
  line L15 (-12.5361, 13.1148) -> (-12.5361, 15)
  line L16 (-25.3054, 20.2) -> (-10.5, 20.2)
  line L17 (-10.5, 20.2) -> (-10.5, 18.2)
  line L18 (-10.5, 18.2) -> (-25.3054, 18.2)
  line L19 (-25.3054, 18.2) -> (-25.3054, 20.2)
  line L20 (27.6639, 15) -> (8, 15)
  line L21 (8, 15) -> (8, 13)
  line L22 (8, 13) -> (27.6639, 13)
  line L23 (27.6639, 13) -> (27.6639, 15)
  line L24 (7.3729, -10) -> (5.2914, -10)
  line L25 (5.2914, -10) -> (5.2914, -7.7315)
  line L26 (5.2914, -7.7315) -> (7.3729, -7.7315)
  line L27 (7.3729, -7.7315) -> (7.3729, -10)
  line L28 (30.389, -10) -> (-30, -10)
  line L29 (7.5, 5.5) -> (5.3795, 5.5)
  line L30 (5.3795, 5.5) -> (5.3795, 7.3487)
  line L31 (5.3795, 7.3487) -> (7.5, 7.3487)
  line L32 (7.5, 7.3487) -> (7.5, 5.5)
  line L33 (0.407, 22.584) -> (7.354, 22.584)
  line L34 (7.354, 22.584) -> (7.354, 20.7177)
  line L35 (7.354, 20.7177) -> (0.407, 20.7177)
  line L36 (0.407, 20.7177) -> (0.407, 22.584)
  line L37 (-20.1625, -15.471) -> (5.1467, -15.471)
  line L38 (5.1467, -15.471) -> (5.1467, -17.5368)
  line L39 (5.1467, -17.5368) -> (-20.1625, -17.5368)
  line L40 (-20.1625, -17.5368) -> (-20.1625, -15.471)
sketch "direct_solder" plane through (0, 0, 0) normal (0, 0, 1) x (1, 0, 0)
  line L0 (29.22, 6.44) -> (32.2, 3.91)
  line L1 (-21.58, 19.14) -> (-21.58, 6.44)
  line L2 (-19.04, 19.14) -> (-19.04, 6.44)
  line L3 (-16.5, 19.14) -> (-16.5, 6.44)
  line L4 (-13.96, 19.14) -> (-13.96, 6.44)
  line L5 (6.36, 14.06) -> (6.36, 6.44)
  line L6 (8.9, 14.06) -> (8.9, 6.44)
  line L7 (11.44, 14.06) -> (11.44, 6.44)
  line L8 (13.98, 14.06) -> (13.98, 6.44)
  line L9 (16.52, 14.06) -> (16.52, 6.44)
  line L10 (19.06, 14.06) -> (19.06, 6.44)
  line L11 (21.6, 14.06) -> (21.6, 6.44)
  line L12 (24.14, 14.06) -> (24.14, 6.44)
  line L13 (26.68, 14.06) -> (26.68, 6.44)
  line L14 (-24.12, 19.14) -> (-24.12, 6.44)
  circle A0 centre (-13.96, -16.42) radius 0.5
  line L15 (-11.42, 19.14) -> (-8.88, 19.14)
  line L16 (-11.42, 14.06) -> (-11.42, 16.6)
  line L17 (1.28, 14.06) -> (1.28, 6.44)
  line L18 (-1.26, 14.06) -> (-1.26, 6.44)
  line L19 (-3.8, 14.06) -> (-3.8, 6.44)
  line L20 (-6.34, 14.06) -> (-6.34, 6.44)
  line L21 (-8.88, 14.06) -> (-8.88, 6.44)
  line L22 (3.82, 14.06) -> (3.82, 11.52)
  line L23 (8.9, -8.8) -> (8.9, -16.42)
  line L24 (11.44, -8.8) -> (11.44, -16.42)
  line L25 (13.98, -8.8) -> (13.98, -16.42)
  line L26 (16.52, -8.8) -> (16.52, -16.42)
  line L27 (19.06, -8.8) -> (19.06, -16.42)
  line L28 (21.6, -8.8) -> (21.6, -16.42)
  line L29 (24.14, -8.8) -> (24.14, -16.42)
  line L30 (26.68, -8.8) -> (26.68, -16.42)
  line L31 (29.22, -8.8) -> (29.22, -16.42)
  line L32 (32.2, 3.91) -> (32.2, -16.41)
  line L33 (-29.2, -18.96) -> (-29.2, -8.8)
  line L34 (-24.12, -18.96) -> (-24.12, -21.5)
  line L35 (6.36, 21.68) -> (6.36, 14.06)
  line L36 (-19.04, -16.42) -> (-21.58, -8.8)
  line L37 (-16.5, -16.42) -> (-19.04, -8.8)
  line L38 (-13.96, -16.42) -> (-16.5, -8.8)
  line L39 (-11.42, -8.8) -> (-11.42, -16.42)
  line L40 (3.82, -8.8) -> (3.82, -16.42)
  line L41 (1.28, -8.8) -> (1.28, -16.42)
  line L42 (-1.26, -8.8) -> (-1.26, -16.42)
  line L43 (-3.8, -8.8) -> (-3.8, -16.42)
  line L44 (-6.34, -16.42) -> (-6.34, -18.96)
  line L45 (-8.88, -16.42) -> (-8.88, -18.96)
  point P0 (29.22, 6.44)
  point P1 (32.2, 3.91)
  point P2 (6.36, 6.44)
  point P3 (3.82, 6.44)
  point P4 (-21.58, 19.14)
  point P5 (-21.58, 6.44)
  point P6 (-19.04, 19.14)
  point P7 (-19.04, 6.44)
  point P8 (-16.5, 19.14)
  point P9 (-16.5, 6.44)
  point P10 (-13.96, 19.14)
  point P11 (-13.96, 6.44)
  point P12 (6.36, 14.06)
  point P13 (1.28, 6.44)
  point P14 (-1.26, 6.44)
  point P15 (-3.8, 6.44)
  point P16 (-6.34, 6.44)
  point P17 (-8.88, 6.44)
  point P18 (8.9, 14.06)
  point P19 (8.9, 6.44)
  point P20 (11.44, 14.06)
  point P21 (11.44, 6.44)
  point P22 (13.98, 14.06)
  point P23 (13.98, 6.44)
  point P24 (16.52, 14.06)
  point P25 (16.52, 6.44)
  point P26 (19.06, 14.06)
  point P27 (19.06, 6.44)
  point P28 (21.6, 14.06)
  point P29 (21.6, 6.44)
  point P30 (24.14, 14.06)
  point P31 (24.14, 6.44)
  point P32 (26.68, 14.06)
  point P33 (26.68, 6.44)
  point P34 (8.9, -8.8)
  point P35 (11.44, -8.8)
  point P36 (13.98, -8.8)
  point P37 (16.52, -8.8)
  point P38 (19.06, -8.8)
  point P39 (21.6, -8.8)
  point P40 (24.14, -8.8)
  point P41 (26.68, -8.8)
  point P42 (29.22, -8.8)
  point P43 (-8.88, 14.06)
  point P44 (-6.34, 14.06)
  point P45 (-3.8, 14.06)
  point P46 (-1.26, 14.06)
  point P47 (1.28, 14.06)
  point P48 (8.9, -16.42)
  point P49 (11.44, -16.42)
  point P50 (13.98, -16.42)
  point P51 (16.52, -16.42)
  point P52 (19.06, -16.42)
  point P53 (21.6, -16.42)
  point P54 (24.14, -16.42)
  point P55 (26.68, -16.42)
  point P56 (29.22, -16.42)
  point P57 (32.2, -16.41)
  point P58 (-19.04, -16.42)
  point P59 (-21.58, -8.8)
  point P60 (-16.5, -16.42)
  point P61 (-19.04, -8.8)
  point P62 (-16.5, -8.8)
  point P63 (-11.42, -8.8)
  point P64 (-11.42, -16.42)
  point P65 (3.82, -8.8)
  point P66 (3.82, -16.42)
  point P67 (1.28, -8.8)
  point P68 (1.28, -16.42)
  point P69 (-1.26, -8.8)
  point P70 (-1.26, -16.42)
  point P71 (-3.8, -8.8)
  point P72 (-3.8, -16.42)
sketch "top wires" plane through (0, 0, 0) normal (0, 0, 1) x (1, 0, 0)
  line L0 (6.36, 16.6) -> (6.36, 14.06)
  line L1 (-8.88, 19.14) -> (-11.42, 19.14)
  line L2 (-24.12, 11.52) -> (3.82, 11.52)
  line L3 (3.82, 14.06) -> (3.82, 11.52)
  line L4 (-24.12, 19.14) -> (-24.12, 11.52)
  line L5 (-24.12, 11.52) -> (-24.12, 6.44)
  line L6 (-11.42, 16.6) -> (-11.42, 14.06)
  line L7 (-29.2, 8.98) -> (-29.2, 6.44)
  line L8 (-29.2, 11.52) -> (-29.2, 8.98)
  arc A0 (-11.42, 16.6) -> (-29.2, 11.52) centre (-11.1633, -17.9536) ccw
  arc A1 (-29.2, 8.98) -> (-32.2, 6.45) centre (-29.4125, 6.1883) ccw
  line L9 (-32.2, 6.45) -> (-32.2, -18.95)
  arc A2 (-32.2, -18.95) -> (-29.2, -21.5) centre (-29.6162, -18.95) ccw
  line L10 (-29.2, -21.5) -> (-24.12, -21.5)
  line L11 (-24.12, -18.96) -> (-24.12, -21.5)
  line L12 (-24.12, -21.5) -> (-24.12, -18.96)
  line L13 (-24.12, -18.96) -> (-24.12, -21.5)
  arc A3 (-8.88, 19.14) -> (6.36, 16.6) centre (1.28, 33.11) ccw
  line L14 (6.36, 16.6) -> (6.36, 21.68)
  spline S0 degree 5 poles (-26.66, -16.42) (-26.5297, -16.4351) (-26.2708, -16.4682) (-25.8873, -16.5263) (-25.3857, -16.621) (-24.7755, -16.7684) (-24.1828, -16.9445) (-23.6088, -17.1478) (-23.0543, -17.3747) (-22.5205, -17.618) (-22.0078, -17.8677) (-21.5171, -18.112) (-21.0485, -18.3392) (-20.6025, -18.539) (-20.1787, -18.7041) (-19.7766, -18.8313) (-19.4717, -18.902) (-19.2523, -18.9377) (-19.1101, -18.9538) (-19.04, -18.96) knots 0 0 0 0 0 0 0.066667 0.133333 0.2 0.266667 0.333333 0.4 0.466667 0.533333 0.6 0.666667 0.733333 0.8 0.866667 0.933333 1 1 1 1 1 1
  circle A4 centre (-19.04, -18.96) radius 0.5
  line L15 (-26.66, -16.42) -> (-29.2, -16.42)
  line L16 (-29.2, -16.42) -> (-29.2, -8.8)
  line L17 (-29.2, -8.8) -> (-29.2, -16.42)
  line L18 (-19.04, -18.96) -> (-8.88, -18.96)
  line L19 (-8.88, -18.96) -> (-8.88, -16.42)
  arc A5 (-6.34, -18.96) -> (6.36, -18.96) centre (0.01, -7.7481) ccw
  arc A6 (6.36, -18.96) -> (6.36, -18) centre (6.0881, -18.48) ccw
  line L20 (6.36, -18) -> (6.36, -8.8)
  line L21 (6.36, -8.8) -> (6.36, -11.34)
  line L22 (-6.34, -18.96) -> (-6.34, -16.42)
  point P0 (-8.88, 19.14)
  point P1 (6.36, 16.6)
  point P2 (6.36, 14.06)
  point P3 (-11.42, 19.14)
  point P4 (-24.12, 11.52)
  point P5 (3.82, 11.52)
  point P6 (3.82, 14.06)
  point P7 (-24.12, 19.14)
  point P8 (-24.12, 6.44)
  point P9 (-29.2, 8.98)
  point P10 (-11.42, 16.6)
  point P11 (-11.42, 14.06)
  point P12 (-29.2, 6.44)
  point P13 (-29.2, 11.52)
  point P14 (-24.12, -18.96)
  point P15 (-3.8, 16.6)
  point P16 (6.36, 21.68)
  point P17 (-23.2903, -17.2817)
  point P18 (-20.739, -18.4745)
  point P19 (-26.66, -16.42)
  point P20 (-19.04, -18.96)
  point P21 (-29.2, -16.42)
  point P22 (-29.2, -8.8)
  point P23 (-8.88, -18.96)
  point P24 (-8.88, -16.42)
  point P25 (-6.34, -18.96)
  point P26 (6.36, -18.96)
  point P27 (6.36, -8.8)
  point P28 (6.36, -11.34)
  point P29 (-6.34, -16.42)
sketch "bottom wires" plane through (0, 0, 0) normal (0, 0, 1) x (1, 0, 0)
  arc A0 (-13.96, -8.8) -> (-28, -8.8) centre (-20.98, -11.0359) ccw
  line L0 (-28, -8.8) -> (-26.66, -18.96)
  arc A1 (-8.88, -8.8) -> (0, 5) centre (-19.3481, 7.693) ccw
  arc A2 (-6.34, -8.8) -> (2.5296, 5.0052) centre (-14.7149, 6.3326) ccw
  line L1 (0, 5) -> (0, 19)
  line L2 (2.5296, 5.0052) -> (2.5296, 19)
  arc A3 (1.28, 21.68) -> (0, 19) centre (3.0691, 19.1798) ccw
  arc A4 (3.82, 21.68) -> (2.5296, 19) centre (5.9578, 19) ccw
  point P0 (3.82, 6.44)
  point P1 (-29.2, 6.44)
  point P2 (-24.12, 6.44)
  point P3 (-13.96, -8.8)
  point P4 (-26.66, -18.96)
  point P5 (-8.88, -8.8)
  point P6 (-6.34, -8.8)
  point P7 (1.28, 21.68)
  point P8 (0.407, 20.7177)
  point P9 (3.82, 21.68)
sketch "additions" plane through (0, 0, 0) normal (0, 0, 1) x (1, 0, 0)
  line L0 (3.82, 6.44) -> (3.82, 3.9)
  line L1 (3.82, 3.9) -> (8.9, 3.9)
  line L2 (8.9, 3.9) -> (8.9, 6.44)
  line L3 (-11.42, 6.44) -> (-11.42, 1.36)
  line L4 (-11.42, 1.36) -> (11.44, 1.36)
  line L5 (11.44, 1.36) -> (11.44, 6.44)
  point P0 (3.82, 6.44)
  point P1 (3.82, 3.9)
  point P2 (8.9, 3.9)
  point P3 (8.9, 6.44)
  point P4 (-11.42, 6.44)
  point P5 (-11.42, 1.36)
  point P6 (11.44, 1.36)
  point P7 (11.44, 6.44)
